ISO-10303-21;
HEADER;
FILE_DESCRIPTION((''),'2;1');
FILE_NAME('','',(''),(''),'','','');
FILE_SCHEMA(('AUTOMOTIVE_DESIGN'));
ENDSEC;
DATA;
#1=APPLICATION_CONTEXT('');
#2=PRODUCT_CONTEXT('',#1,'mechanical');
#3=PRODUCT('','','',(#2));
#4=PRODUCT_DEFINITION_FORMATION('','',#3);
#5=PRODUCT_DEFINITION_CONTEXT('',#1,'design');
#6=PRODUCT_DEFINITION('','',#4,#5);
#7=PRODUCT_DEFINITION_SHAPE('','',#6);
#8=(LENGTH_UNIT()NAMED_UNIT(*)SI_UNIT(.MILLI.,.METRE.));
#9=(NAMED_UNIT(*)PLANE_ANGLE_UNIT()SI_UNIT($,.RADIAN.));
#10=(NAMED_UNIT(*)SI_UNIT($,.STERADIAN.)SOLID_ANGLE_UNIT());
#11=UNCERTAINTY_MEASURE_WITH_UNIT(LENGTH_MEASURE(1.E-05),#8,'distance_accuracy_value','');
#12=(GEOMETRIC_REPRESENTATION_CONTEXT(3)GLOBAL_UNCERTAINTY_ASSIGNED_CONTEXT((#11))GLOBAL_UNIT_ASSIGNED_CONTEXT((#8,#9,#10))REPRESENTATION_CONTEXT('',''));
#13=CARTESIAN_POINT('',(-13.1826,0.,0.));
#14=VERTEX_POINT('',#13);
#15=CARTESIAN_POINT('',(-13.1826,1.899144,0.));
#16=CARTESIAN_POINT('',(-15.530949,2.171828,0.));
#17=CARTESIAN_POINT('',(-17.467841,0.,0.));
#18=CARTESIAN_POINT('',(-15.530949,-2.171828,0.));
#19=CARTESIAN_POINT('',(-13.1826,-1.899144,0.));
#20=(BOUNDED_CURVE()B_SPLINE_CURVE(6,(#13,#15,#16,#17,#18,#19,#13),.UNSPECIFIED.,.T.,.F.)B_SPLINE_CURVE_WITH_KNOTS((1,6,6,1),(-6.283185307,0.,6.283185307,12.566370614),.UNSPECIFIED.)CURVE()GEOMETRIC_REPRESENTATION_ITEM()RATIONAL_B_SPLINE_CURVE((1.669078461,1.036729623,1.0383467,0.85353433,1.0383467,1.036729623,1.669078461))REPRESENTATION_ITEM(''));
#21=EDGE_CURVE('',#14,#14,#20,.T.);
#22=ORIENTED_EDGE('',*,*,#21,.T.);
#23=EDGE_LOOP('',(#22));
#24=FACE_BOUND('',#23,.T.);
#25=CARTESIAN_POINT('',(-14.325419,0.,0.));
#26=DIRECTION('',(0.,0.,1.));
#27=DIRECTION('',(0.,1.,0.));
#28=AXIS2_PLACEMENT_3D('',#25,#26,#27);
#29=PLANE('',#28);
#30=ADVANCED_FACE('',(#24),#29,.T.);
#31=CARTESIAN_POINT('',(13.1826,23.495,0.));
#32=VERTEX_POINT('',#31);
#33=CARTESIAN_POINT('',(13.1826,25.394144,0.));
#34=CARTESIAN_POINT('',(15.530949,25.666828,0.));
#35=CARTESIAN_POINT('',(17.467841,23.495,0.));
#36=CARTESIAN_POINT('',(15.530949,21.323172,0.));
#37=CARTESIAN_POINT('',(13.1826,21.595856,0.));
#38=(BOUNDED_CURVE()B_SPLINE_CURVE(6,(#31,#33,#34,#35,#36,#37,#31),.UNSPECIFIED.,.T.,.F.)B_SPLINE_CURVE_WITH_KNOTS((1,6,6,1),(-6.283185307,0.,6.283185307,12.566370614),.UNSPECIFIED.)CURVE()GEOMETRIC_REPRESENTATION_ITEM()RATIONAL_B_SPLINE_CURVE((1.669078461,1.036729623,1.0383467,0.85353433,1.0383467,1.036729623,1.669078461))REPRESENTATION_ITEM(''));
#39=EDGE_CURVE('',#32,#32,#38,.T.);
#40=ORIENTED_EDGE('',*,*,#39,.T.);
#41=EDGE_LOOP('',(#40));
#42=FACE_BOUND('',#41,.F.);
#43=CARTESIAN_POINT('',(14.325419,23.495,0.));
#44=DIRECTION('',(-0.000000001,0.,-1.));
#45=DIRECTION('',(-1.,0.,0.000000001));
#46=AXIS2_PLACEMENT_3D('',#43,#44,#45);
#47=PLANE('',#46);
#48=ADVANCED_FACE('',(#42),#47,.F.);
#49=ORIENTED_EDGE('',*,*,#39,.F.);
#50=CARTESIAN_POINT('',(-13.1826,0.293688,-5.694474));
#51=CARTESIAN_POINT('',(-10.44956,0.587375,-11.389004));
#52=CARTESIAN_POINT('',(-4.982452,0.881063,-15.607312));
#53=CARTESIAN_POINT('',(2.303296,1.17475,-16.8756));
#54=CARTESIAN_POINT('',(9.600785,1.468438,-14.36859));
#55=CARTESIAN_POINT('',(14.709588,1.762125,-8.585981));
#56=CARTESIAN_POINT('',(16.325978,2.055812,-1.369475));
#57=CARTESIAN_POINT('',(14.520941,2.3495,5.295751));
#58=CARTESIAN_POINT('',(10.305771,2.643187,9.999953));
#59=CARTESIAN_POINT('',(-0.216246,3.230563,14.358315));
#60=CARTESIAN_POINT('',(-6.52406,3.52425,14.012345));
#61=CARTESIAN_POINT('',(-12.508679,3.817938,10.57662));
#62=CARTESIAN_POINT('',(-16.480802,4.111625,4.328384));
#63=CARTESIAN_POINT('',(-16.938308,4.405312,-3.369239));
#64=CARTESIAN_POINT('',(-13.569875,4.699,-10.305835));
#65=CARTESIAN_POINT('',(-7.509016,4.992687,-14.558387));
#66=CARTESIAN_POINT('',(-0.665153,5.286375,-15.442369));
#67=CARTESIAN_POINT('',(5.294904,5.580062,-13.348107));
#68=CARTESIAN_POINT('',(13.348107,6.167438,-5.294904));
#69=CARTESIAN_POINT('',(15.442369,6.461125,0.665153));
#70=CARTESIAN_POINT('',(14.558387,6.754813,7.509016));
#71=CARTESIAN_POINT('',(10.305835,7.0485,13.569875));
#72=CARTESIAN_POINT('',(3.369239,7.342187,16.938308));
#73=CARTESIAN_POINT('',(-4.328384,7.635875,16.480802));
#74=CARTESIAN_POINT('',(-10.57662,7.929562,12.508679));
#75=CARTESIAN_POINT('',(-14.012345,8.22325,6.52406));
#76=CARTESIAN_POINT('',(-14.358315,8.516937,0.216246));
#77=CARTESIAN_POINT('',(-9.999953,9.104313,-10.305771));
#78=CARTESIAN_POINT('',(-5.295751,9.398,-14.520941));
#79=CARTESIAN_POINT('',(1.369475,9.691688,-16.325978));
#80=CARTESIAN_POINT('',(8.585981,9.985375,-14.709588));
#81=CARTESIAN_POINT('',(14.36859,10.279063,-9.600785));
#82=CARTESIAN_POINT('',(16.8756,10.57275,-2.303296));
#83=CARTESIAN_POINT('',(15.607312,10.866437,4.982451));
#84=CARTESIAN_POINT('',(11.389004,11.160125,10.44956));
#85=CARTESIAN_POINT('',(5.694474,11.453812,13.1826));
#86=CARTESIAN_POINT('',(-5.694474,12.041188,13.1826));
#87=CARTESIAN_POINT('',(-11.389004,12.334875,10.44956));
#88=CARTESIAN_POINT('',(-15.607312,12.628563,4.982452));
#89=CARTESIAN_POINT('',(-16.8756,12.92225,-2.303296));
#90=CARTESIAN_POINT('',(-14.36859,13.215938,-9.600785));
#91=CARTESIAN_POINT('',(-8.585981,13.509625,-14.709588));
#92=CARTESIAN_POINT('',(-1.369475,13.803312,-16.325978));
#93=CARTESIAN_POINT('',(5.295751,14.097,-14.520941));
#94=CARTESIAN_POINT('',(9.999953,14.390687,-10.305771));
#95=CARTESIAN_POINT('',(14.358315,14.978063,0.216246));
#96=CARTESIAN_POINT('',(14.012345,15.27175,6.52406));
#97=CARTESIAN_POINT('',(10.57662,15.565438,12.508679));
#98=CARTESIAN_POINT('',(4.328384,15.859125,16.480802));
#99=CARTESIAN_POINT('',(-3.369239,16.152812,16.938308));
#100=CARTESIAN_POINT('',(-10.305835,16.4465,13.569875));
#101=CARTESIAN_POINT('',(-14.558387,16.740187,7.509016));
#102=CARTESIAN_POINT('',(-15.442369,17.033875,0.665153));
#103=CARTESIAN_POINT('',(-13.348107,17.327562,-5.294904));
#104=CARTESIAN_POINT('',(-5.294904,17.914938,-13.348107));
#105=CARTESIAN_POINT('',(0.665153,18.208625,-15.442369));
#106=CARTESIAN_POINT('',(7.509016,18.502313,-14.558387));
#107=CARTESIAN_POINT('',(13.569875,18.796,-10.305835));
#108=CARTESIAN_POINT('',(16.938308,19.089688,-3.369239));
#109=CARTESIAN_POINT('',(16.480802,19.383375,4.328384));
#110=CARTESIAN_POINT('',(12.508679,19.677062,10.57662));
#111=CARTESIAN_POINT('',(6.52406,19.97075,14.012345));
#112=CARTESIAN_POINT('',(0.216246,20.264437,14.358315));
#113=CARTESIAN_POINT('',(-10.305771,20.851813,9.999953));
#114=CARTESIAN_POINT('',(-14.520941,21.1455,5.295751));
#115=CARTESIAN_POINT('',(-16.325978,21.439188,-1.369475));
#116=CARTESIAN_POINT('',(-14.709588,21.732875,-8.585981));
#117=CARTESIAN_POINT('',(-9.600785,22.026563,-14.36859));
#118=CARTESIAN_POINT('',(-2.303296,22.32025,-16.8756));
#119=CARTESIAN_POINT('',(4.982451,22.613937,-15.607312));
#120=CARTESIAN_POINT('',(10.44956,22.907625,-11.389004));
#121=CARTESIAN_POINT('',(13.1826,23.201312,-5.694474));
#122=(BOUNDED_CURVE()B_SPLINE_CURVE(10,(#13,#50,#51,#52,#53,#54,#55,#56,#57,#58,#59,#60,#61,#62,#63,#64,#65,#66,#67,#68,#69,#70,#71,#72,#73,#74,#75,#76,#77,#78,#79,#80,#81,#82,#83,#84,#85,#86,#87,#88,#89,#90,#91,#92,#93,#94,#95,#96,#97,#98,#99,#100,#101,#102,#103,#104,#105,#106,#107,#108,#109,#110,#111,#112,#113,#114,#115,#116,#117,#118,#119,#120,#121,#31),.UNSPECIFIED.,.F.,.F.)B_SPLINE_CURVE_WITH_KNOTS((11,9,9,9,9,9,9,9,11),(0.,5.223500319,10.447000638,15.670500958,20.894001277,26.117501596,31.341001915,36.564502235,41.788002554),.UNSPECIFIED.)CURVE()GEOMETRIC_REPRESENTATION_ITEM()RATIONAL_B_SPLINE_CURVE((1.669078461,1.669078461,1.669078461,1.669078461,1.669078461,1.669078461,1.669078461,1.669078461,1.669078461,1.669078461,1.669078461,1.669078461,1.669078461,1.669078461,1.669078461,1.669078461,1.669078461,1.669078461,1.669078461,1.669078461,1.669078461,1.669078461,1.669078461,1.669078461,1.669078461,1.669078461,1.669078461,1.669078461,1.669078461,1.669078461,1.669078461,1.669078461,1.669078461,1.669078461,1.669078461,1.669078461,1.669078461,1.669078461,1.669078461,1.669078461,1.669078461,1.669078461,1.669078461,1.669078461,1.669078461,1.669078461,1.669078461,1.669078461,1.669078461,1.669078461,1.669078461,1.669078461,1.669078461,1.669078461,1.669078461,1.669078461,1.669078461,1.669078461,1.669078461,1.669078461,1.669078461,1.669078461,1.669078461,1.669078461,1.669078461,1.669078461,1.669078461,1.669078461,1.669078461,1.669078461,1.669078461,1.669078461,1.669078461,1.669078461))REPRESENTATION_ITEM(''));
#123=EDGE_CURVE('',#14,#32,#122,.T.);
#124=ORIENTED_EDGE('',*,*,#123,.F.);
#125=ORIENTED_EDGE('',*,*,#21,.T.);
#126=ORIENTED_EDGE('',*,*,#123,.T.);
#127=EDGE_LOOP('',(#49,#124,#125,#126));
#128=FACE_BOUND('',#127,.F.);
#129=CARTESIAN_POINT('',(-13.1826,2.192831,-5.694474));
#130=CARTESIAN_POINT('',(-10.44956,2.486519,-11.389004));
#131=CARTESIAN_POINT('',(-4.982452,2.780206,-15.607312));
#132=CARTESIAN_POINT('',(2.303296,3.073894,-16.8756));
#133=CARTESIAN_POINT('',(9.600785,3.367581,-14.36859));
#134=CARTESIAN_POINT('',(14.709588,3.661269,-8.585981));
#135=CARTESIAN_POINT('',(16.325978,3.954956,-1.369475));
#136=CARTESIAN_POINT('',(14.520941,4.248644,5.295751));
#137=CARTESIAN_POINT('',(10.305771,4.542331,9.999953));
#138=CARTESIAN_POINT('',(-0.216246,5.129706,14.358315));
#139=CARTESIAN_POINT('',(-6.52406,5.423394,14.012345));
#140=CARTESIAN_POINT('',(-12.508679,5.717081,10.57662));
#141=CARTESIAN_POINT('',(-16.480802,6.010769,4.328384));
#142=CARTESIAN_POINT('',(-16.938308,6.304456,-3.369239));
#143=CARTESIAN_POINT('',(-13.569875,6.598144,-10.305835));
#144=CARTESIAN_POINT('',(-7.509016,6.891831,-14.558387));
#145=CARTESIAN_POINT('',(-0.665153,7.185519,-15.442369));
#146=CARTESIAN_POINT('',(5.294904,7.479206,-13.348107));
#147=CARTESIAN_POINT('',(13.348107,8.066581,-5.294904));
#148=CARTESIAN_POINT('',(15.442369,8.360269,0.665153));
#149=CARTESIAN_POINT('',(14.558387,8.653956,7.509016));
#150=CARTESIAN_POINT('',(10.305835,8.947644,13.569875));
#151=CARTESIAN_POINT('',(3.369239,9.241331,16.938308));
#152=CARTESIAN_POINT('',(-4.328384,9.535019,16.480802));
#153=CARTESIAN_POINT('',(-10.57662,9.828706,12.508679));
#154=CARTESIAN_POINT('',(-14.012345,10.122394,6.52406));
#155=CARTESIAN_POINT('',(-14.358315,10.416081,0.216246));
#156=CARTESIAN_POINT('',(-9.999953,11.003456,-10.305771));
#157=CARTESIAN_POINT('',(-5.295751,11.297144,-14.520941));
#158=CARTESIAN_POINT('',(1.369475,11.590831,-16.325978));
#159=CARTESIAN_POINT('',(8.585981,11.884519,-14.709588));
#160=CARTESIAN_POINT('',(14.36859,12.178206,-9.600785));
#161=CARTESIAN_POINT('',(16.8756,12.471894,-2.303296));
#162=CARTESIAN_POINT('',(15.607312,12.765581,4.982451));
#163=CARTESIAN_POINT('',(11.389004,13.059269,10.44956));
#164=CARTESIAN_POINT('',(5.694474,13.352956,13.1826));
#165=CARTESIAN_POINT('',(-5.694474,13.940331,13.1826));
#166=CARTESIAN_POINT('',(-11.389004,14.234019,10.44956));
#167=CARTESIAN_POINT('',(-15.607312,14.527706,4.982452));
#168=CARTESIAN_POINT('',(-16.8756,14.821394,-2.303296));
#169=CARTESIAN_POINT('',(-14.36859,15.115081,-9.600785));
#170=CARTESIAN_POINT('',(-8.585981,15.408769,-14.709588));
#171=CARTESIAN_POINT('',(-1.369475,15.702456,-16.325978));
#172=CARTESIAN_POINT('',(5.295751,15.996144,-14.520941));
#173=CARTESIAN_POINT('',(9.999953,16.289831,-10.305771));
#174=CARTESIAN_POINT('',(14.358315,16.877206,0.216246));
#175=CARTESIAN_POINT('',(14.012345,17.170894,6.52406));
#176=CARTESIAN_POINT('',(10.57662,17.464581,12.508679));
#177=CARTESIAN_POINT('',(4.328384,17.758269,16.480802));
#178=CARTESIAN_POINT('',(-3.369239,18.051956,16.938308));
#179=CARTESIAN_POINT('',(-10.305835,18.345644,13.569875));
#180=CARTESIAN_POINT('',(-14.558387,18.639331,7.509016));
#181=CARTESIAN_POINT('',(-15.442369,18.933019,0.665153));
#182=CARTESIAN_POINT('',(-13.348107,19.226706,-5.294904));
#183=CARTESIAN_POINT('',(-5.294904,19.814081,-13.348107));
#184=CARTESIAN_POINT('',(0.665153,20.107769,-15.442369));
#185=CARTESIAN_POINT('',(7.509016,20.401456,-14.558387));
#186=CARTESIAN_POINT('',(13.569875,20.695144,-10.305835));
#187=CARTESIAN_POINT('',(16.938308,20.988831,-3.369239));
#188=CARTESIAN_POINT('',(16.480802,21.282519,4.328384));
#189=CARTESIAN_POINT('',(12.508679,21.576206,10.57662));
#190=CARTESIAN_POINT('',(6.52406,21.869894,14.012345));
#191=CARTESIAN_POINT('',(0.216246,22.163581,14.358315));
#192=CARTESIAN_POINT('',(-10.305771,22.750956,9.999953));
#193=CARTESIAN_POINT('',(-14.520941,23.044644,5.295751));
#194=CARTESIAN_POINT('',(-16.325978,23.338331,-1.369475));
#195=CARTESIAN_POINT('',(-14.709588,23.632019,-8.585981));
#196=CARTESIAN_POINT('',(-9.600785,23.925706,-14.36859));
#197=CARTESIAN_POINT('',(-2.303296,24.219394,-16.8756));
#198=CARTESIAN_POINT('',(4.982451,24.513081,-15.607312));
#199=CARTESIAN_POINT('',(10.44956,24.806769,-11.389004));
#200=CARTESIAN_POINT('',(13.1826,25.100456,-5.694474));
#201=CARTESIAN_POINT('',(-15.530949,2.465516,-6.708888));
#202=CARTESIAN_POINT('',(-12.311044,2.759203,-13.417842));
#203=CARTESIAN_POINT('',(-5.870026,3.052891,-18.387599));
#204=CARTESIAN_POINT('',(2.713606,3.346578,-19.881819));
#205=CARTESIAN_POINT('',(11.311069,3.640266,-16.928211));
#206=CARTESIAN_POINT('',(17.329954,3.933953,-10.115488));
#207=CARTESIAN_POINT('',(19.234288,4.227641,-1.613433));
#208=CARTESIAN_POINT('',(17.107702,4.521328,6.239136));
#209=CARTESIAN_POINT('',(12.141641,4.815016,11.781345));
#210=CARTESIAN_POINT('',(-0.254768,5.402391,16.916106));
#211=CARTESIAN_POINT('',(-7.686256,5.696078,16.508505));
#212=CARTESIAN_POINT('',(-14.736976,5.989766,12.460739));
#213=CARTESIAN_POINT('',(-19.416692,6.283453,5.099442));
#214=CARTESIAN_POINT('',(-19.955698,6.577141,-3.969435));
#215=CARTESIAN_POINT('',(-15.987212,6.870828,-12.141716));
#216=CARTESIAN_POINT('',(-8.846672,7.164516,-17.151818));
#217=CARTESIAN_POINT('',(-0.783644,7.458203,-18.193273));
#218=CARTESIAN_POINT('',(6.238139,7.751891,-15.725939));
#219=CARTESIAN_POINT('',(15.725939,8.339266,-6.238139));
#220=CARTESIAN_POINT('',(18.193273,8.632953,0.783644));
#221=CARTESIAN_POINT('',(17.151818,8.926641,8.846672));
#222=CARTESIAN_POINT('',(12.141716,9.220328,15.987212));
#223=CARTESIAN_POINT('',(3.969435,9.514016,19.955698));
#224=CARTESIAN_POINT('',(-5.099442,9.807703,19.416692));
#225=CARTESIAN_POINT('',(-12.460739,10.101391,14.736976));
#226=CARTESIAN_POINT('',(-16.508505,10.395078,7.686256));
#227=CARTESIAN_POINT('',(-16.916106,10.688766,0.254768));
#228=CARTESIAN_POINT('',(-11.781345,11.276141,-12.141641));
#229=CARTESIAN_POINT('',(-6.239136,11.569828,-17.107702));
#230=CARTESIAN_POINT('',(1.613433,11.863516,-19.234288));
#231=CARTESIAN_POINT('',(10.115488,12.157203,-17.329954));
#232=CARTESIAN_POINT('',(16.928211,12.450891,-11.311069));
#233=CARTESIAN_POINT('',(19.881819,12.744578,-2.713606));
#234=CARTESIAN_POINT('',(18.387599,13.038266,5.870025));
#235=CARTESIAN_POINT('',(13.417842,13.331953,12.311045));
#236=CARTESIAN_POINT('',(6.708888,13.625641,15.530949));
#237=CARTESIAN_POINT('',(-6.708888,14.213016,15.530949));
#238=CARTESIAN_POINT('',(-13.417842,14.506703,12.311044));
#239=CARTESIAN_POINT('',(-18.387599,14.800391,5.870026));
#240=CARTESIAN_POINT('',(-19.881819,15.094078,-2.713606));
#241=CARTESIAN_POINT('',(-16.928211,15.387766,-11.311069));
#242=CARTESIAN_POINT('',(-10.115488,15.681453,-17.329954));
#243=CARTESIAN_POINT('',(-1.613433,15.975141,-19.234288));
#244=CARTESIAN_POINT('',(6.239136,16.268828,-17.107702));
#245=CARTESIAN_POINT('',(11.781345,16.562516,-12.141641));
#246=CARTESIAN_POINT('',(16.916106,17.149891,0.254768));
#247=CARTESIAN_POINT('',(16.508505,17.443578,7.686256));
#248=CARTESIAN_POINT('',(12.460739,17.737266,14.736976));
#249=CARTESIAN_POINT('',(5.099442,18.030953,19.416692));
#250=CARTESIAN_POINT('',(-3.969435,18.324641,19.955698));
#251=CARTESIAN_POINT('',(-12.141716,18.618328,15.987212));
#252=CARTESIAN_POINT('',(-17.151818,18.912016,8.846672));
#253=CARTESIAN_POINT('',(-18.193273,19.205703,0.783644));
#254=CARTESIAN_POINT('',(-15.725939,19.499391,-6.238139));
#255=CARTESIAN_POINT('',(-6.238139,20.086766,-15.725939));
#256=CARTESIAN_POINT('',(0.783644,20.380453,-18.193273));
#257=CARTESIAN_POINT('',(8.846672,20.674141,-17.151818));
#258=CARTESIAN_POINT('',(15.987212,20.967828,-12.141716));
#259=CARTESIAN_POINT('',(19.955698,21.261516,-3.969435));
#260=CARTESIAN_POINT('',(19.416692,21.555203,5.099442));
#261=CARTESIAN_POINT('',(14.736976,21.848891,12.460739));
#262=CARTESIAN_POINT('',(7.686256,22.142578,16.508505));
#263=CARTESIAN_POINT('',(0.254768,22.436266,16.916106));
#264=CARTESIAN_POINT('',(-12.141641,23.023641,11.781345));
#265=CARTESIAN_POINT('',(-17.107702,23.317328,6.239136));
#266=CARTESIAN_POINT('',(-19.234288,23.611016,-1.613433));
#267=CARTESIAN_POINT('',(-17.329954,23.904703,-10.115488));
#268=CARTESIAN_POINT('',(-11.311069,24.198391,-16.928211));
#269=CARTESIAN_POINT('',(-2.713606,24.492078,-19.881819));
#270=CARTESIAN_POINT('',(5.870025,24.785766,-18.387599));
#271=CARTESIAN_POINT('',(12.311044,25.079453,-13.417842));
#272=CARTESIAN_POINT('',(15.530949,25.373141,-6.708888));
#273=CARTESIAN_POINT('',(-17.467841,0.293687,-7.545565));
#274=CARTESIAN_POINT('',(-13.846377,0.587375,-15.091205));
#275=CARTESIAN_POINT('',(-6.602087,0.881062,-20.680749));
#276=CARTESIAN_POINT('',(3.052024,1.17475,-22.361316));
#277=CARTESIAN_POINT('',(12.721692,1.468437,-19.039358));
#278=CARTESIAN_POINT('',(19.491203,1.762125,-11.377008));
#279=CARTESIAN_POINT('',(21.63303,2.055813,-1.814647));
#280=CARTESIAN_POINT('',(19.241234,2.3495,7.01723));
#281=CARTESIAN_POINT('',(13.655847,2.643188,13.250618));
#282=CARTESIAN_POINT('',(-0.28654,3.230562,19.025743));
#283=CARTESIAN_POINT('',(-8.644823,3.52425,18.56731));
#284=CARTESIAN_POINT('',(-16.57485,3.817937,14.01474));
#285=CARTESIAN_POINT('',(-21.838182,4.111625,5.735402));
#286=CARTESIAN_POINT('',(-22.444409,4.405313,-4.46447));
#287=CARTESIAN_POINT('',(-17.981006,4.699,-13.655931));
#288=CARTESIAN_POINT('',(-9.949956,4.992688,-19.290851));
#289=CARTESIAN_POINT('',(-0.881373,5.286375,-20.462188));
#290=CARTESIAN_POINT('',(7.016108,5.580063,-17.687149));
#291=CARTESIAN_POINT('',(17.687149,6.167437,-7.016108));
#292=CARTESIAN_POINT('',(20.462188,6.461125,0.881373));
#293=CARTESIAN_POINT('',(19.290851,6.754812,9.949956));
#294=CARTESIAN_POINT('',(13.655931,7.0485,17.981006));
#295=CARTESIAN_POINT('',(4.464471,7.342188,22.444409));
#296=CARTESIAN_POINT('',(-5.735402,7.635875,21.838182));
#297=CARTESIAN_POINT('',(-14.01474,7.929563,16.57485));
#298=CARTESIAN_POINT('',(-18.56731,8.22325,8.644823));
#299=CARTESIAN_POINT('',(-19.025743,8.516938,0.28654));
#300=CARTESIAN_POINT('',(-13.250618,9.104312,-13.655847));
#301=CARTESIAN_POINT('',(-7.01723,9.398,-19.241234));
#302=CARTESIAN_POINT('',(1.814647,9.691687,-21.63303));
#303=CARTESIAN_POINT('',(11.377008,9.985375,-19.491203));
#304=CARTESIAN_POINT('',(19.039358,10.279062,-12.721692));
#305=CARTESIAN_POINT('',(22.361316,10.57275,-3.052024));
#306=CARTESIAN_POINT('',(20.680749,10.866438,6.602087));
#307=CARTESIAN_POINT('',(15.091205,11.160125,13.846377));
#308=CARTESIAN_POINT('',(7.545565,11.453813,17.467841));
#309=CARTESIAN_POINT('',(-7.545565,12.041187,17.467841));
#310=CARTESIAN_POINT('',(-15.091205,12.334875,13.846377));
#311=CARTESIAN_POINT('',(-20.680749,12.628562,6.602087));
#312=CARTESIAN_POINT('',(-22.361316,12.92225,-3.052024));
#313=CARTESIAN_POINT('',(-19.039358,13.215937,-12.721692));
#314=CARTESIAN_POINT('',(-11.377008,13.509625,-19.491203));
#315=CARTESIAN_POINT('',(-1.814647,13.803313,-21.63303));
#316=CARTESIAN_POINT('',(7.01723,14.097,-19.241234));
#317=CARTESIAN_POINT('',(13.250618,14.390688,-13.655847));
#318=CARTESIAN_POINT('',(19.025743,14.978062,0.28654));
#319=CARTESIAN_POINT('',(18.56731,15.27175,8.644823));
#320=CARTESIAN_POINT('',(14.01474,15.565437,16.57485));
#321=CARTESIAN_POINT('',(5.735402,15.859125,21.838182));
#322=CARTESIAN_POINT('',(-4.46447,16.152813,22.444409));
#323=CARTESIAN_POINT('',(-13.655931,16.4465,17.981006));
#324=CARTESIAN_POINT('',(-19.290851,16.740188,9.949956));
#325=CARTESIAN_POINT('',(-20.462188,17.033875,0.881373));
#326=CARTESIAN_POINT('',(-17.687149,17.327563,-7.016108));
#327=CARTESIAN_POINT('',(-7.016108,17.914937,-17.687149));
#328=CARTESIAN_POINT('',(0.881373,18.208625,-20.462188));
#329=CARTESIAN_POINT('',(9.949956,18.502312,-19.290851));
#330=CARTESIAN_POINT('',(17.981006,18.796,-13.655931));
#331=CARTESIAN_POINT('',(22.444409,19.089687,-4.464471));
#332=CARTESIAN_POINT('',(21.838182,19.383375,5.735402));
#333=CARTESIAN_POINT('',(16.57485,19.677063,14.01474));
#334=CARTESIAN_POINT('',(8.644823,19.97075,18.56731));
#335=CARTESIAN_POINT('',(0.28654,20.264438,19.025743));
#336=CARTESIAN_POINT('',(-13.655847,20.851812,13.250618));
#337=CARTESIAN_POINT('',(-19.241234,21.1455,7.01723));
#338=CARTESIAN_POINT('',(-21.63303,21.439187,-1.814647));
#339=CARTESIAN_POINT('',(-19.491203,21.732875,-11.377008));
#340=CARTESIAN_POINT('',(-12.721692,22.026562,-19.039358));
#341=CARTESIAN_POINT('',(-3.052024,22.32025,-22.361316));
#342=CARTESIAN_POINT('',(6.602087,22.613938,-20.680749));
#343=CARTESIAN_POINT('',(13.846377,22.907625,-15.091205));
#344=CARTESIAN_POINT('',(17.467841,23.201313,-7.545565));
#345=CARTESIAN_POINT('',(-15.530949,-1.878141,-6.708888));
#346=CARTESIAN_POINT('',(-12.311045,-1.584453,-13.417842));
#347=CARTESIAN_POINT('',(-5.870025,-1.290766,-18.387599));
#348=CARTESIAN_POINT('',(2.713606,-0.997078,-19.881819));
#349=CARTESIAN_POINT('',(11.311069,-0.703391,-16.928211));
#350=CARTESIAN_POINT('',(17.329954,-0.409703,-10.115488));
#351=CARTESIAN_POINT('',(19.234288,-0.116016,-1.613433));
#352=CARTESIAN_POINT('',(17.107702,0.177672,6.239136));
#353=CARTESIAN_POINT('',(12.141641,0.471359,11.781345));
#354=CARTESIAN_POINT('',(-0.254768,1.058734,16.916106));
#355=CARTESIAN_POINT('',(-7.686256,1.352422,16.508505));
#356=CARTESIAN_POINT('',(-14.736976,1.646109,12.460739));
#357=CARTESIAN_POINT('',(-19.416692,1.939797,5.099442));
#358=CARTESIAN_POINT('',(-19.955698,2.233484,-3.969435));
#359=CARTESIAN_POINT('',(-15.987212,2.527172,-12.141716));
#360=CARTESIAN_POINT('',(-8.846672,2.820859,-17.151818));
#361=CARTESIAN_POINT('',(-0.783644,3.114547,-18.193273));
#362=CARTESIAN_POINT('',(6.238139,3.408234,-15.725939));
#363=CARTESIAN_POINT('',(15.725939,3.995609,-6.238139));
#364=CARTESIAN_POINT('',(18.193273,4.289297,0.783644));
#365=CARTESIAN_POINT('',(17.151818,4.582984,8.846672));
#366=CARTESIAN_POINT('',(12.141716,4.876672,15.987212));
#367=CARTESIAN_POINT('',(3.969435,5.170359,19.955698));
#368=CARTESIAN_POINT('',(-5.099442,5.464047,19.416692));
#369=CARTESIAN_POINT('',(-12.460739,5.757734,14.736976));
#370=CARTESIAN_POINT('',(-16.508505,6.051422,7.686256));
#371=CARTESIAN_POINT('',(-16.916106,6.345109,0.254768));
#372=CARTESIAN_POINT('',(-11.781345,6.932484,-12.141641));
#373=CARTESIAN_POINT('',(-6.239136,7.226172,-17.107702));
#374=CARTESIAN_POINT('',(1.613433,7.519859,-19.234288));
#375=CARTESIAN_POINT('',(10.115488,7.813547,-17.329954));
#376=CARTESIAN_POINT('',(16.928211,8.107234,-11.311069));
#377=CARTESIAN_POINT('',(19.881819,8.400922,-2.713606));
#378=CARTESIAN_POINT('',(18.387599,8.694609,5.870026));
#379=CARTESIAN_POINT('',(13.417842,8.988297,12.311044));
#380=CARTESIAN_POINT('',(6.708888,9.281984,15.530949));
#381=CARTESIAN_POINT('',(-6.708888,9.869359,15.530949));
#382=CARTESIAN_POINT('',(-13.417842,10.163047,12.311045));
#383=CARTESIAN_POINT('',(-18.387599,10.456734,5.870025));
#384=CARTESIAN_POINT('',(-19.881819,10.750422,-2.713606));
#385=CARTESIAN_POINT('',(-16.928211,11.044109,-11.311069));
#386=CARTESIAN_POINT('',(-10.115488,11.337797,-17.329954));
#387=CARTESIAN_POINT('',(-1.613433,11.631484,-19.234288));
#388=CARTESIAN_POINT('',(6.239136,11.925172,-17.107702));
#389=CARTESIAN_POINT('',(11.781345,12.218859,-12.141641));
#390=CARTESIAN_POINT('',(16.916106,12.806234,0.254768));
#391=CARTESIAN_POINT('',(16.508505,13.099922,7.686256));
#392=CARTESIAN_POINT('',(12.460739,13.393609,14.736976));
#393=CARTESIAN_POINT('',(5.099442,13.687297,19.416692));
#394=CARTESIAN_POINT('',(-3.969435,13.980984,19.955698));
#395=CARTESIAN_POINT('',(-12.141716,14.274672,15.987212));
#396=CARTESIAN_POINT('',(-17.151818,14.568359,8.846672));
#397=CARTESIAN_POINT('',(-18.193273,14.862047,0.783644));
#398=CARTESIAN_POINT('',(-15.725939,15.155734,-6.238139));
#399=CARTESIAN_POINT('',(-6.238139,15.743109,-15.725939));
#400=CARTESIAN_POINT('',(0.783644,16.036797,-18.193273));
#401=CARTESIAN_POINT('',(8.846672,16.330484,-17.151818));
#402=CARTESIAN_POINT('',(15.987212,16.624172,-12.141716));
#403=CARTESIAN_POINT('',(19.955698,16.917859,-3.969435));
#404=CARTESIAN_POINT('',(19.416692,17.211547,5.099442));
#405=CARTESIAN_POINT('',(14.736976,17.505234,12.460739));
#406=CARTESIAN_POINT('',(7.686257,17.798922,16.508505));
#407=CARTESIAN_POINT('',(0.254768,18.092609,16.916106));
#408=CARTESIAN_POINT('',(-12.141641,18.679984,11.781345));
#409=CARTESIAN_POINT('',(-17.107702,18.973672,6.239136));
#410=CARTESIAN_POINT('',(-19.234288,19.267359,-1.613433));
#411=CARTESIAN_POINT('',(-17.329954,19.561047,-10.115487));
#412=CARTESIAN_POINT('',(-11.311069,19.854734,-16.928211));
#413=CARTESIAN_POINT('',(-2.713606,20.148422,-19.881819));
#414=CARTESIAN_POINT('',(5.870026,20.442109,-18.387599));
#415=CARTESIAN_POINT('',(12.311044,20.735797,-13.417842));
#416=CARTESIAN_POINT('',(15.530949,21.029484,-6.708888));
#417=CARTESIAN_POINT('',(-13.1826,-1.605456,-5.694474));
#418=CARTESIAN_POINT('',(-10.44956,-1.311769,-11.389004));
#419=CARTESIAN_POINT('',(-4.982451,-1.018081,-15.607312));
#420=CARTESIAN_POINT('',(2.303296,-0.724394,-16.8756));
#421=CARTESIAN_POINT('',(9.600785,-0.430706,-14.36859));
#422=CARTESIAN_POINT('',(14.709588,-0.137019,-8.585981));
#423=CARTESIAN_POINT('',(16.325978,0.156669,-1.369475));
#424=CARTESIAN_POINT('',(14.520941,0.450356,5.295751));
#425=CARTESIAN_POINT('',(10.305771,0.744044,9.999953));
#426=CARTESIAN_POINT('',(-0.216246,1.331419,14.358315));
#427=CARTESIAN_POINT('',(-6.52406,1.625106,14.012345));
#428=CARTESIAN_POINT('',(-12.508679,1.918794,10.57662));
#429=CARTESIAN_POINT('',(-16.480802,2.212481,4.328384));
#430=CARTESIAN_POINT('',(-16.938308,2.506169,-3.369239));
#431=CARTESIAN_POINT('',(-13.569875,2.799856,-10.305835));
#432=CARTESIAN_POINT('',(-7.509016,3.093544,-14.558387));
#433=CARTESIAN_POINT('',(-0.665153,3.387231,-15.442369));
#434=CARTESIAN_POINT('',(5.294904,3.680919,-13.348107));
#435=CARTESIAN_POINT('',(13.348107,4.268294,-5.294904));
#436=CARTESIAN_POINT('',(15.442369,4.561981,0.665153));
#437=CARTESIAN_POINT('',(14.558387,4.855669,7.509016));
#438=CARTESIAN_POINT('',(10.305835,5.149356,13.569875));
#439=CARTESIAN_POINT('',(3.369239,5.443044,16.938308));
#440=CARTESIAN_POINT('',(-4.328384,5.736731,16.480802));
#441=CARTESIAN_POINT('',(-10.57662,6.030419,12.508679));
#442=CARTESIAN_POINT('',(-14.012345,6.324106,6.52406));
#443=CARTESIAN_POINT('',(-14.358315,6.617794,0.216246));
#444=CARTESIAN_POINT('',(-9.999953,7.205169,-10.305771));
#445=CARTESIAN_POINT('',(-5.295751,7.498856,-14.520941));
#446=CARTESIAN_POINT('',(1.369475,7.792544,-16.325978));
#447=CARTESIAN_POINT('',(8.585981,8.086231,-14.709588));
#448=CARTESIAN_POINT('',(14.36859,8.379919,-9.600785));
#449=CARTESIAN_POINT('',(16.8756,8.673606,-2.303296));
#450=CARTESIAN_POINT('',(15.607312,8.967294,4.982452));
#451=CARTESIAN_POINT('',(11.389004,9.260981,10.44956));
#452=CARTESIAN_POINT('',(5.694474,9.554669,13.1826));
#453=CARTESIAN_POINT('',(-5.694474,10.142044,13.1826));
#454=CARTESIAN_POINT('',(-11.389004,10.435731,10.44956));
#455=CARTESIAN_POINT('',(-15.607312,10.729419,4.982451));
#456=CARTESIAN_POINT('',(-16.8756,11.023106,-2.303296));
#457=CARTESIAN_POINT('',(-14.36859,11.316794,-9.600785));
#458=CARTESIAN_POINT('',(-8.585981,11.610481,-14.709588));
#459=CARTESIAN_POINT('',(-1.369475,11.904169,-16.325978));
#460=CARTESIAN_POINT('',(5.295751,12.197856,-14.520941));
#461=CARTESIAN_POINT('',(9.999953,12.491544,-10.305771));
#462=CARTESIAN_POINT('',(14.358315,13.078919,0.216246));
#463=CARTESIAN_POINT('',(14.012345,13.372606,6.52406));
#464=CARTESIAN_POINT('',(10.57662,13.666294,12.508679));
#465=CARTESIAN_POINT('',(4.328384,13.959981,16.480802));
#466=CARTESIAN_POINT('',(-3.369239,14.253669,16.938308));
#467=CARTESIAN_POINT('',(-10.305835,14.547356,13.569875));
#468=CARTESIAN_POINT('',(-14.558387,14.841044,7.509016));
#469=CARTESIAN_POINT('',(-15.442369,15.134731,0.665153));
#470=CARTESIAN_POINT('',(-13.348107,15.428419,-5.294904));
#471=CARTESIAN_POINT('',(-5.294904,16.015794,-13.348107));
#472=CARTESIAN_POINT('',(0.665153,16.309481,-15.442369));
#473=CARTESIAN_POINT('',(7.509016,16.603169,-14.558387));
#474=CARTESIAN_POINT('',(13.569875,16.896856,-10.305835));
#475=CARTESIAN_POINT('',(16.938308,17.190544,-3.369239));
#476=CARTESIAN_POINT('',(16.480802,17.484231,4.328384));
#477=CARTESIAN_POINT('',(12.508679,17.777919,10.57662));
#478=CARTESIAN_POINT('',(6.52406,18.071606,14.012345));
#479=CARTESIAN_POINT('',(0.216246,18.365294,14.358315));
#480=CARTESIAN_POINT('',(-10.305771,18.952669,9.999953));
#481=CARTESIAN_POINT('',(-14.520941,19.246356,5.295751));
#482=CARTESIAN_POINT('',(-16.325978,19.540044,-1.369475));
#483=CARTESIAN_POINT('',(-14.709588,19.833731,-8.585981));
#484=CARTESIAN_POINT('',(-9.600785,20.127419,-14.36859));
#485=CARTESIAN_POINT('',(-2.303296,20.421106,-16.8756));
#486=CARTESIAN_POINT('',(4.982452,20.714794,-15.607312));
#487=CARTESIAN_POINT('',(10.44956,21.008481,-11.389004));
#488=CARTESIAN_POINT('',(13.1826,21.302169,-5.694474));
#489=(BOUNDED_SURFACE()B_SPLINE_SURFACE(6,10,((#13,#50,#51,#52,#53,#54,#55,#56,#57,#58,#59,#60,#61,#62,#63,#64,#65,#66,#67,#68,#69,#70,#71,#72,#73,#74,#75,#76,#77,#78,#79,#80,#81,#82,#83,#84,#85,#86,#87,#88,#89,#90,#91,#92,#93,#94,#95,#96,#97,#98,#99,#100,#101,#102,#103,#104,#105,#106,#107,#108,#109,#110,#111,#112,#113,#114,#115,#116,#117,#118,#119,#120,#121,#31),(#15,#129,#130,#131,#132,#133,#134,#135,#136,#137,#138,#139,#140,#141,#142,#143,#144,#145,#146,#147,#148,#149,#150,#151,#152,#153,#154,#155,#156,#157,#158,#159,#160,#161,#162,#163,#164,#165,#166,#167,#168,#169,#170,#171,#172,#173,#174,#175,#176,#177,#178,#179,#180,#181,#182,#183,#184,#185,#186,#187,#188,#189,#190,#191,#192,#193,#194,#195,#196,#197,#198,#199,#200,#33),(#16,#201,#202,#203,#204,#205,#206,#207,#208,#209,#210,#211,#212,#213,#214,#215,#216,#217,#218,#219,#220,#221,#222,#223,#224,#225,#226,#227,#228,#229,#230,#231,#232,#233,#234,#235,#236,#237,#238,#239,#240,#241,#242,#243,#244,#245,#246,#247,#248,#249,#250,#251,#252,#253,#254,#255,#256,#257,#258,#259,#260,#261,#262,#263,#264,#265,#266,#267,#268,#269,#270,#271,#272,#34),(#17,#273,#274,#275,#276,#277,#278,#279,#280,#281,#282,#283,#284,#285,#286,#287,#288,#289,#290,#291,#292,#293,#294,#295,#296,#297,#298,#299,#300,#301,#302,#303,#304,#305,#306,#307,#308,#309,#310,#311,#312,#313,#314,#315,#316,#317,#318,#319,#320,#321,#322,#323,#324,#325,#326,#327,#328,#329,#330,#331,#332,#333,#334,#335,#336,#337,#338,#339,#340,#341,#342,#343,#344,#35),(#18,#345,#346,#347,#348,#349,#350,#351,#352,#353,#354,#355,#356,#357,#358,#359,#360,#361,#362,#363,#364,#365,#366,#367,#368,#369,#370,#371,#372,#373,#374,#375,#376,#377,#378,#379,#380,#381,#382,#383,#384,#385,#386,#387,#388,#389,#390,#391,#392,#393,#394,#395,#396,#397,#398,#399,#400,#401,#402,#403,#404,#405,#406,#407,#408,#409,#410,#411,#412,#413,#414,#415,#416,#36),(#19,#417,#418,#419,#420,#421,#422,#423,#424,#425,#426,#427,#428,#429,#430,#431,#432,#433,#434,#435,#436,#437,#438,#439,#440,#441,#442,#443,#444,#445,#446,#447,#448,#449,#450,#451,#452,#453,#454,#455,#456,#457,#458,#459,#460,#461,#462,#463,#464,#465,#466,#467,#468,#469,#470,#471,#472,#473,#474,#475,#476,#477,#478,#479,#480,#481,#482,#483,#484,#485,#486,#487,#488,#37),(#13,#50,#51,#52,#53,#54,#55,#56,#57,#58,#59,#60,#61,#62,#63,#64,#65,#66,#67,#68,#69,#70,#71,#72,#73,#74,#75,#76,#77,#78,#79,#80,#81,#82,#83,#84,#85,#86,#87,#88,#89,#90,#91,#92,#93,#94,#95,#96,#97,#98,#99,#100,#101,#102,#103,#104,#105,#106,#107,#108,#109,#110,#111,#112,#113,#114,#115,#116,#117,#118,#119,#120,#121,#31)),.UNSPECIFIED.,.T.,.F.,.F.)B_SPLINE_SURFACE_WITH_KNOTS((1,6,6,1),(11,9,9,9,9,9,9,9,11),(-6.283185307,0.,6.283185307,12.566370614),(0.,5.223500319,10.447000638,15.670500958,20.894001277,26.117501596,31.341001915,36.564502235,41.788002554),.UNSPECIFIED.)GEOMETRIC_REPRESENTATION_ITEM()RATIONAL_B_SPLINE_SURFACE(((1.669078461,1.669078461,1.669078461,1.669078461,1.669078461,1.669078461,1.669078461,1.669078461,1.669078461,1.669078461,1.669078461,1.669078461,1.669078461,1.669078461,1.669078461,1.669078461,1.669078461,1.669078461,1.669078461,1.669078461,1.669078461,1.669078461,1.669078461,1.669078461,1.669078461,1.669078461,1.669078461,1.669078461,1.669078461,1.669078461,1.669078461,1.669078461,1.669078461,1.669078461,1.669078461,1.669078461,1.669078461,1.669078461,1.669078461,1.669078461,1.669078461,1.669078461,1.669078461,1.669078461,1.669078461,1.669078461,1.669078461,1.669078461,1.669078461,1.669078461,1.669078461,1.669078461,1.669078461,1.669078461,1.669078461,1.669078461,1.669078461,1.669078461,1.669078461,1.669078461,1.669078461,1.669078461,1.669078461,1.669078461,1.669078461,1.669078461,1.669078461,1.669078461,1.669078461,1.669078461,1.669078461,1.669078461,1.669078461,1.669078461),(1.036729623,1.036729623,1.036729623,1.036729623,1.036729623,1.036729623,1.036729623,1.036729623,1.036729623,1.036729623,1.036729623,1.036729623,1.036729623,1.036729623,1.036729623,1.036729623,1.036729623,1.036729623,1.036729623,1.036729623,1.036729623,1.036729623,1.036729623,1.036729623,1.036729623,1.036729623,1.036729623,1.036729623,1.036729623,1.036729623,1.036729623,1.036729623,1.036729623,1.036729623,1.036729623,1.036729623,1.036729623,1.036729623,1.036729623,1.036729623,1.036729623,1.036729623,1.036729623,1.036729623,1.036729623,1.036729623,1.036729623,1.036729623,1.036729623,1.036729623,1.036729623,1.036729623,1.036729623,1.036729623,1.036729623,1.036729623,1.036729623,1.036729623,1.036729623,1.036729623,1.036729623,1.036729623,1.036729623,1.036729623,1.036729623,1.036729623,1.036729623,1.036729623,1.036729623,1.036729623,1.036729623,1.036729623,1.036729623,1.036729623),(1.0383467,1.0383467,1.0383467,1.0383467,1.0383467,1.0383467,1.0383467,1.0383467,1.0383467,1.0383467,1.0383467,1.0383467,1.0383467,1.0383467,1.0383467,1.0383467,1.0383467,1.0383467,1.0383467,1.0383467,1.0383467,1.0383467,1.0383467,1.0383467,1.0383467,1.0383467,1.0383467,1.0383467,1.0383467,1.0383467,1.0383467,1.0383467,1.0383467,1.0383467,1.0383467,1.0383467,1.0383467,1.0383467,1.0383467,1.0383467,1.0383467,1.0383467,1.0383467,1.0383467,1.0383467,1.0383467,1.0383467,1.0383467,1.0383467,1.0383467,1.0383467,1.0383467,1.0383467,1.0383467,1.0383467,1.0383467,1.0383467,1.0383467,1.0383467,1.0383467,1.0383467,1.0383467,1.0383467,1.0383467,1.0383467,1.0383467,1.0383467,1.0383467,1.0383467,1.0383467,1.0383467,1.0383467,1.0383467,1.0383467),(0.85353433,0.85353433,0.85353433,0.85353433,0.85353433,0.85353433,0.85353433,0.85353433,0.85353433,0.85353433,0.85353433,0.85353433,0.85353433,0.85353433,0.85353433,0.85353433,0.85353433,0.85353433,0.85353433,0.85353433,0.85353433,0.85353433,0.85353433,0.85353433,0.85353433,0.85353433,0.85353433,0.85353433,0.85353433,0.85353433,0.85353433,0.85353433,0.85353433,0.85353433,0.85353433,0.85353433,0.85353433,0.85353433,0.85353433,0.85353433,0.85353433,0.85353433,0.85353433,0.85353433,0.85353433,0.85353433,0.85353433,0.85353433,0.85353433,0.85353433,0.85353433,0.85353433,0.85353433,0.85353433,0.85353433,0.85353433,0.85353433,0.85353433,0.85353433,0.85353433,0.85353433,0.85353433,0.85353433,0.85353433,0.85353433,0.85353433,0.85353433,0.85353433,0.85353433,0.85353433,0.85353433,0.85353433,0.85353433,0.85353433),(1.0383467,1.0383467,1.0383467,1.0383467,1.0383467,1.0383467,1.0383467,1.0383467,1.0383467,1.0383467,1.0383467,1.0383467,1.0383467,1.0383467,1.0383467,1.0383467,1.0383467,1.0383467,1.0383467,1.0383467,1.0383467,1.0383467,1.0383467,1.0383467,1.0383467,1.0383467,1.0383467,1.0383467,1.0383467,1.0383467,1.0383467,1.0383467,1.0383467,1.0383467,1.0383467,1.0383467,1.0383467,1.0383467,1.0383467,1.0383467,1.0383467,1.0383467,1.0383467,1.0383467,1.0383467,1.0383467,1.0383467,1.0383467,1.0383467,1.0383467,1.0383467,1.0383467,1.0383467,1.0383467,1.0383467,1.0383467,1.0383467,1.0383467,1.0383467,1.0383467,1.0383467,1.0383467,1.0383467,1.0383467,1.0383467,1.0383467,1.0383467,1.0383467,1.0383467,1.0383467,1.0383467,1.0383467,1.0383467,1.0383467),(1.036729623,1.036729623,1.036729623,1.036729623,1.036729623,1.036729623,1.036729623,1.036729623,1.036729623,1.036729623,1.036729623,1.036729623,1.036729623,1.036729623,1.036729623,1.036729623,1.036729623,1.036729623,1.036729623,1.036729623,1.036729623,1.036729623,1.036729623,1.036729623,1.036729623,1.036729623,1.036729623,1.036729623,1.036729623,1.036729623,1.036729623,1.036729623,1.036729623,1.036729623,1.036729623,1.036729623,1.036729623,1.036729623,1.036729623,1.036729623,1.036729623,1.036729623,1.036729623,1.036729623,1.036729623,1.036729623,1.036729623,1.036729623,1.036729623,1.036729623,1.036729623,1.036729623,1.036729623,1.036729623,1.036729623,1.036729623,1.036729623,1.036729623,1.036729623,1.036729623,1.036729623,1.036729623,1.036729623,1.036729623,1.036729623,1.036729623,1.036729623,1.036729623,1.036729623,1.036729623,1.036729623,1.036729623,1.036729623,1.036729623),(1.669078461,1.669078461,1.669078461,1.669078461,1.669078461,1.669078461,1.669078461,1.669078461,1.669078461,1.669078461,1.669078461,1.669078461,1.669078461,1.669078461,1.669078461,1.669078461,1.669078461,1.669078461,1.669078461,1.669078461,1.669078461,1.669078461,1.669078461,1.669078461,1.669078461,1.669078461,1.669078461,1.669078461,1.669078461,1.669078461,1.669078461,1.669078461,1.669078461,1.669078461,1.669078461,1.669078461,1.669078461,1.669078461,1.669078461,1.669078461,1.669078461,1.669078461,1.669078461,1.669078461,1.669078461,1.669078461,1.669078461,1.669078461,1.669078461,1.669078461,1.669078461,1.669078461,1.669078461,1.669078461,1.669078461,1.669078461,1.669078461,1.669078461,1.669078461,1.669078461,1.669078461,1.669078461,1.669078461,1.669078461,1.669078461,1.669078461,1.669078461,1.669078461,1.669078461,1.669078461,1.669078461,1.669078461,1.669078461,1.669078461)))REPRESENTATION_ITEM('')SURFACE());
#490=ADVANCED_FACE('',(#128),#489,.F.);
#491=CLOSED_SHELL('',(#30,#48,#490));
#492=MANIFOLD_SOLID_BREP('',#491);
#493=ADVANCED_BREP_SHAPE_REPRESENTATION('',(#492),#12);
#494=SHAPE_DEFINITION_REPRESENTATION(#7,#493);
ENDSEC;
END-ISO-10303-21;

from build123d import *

# Parameters (mm, degrees)
SWEEP1_PITCH       = 4.271818182
SWEEP1_HEIGHT      = 23.495
SWEEP1_RADIUS      = 14.3256
SWEEP1_START_ANGLE = -90
SKETCH1_R          = 1.143


with BuildPart() as part:
    # Sweep1: sweep along a helix
    with BuildLine() as sweep1_path:
        add(Helix(SWEEP1_PITCH, SWEEP1_HEIGHT, SWEEP1_RADIUS, center=(0, 0, 0), direction=(0, 1, 0), lefthand=True, mode=Mode.PRIVATE).rotate(Axis((0, 0, 0), (0, 1, 0)), SWEEP1_START_ANGLE))
    # Sketch1 → Sweep1 (sweep)
    with BuildSketch(Plane.XY):
        with Locations((-14.3256, 0)):
            Circle(SKETCH1_R)
    sweep(path=sweep1_path.line, is_frenet=True)


solid = part.part
